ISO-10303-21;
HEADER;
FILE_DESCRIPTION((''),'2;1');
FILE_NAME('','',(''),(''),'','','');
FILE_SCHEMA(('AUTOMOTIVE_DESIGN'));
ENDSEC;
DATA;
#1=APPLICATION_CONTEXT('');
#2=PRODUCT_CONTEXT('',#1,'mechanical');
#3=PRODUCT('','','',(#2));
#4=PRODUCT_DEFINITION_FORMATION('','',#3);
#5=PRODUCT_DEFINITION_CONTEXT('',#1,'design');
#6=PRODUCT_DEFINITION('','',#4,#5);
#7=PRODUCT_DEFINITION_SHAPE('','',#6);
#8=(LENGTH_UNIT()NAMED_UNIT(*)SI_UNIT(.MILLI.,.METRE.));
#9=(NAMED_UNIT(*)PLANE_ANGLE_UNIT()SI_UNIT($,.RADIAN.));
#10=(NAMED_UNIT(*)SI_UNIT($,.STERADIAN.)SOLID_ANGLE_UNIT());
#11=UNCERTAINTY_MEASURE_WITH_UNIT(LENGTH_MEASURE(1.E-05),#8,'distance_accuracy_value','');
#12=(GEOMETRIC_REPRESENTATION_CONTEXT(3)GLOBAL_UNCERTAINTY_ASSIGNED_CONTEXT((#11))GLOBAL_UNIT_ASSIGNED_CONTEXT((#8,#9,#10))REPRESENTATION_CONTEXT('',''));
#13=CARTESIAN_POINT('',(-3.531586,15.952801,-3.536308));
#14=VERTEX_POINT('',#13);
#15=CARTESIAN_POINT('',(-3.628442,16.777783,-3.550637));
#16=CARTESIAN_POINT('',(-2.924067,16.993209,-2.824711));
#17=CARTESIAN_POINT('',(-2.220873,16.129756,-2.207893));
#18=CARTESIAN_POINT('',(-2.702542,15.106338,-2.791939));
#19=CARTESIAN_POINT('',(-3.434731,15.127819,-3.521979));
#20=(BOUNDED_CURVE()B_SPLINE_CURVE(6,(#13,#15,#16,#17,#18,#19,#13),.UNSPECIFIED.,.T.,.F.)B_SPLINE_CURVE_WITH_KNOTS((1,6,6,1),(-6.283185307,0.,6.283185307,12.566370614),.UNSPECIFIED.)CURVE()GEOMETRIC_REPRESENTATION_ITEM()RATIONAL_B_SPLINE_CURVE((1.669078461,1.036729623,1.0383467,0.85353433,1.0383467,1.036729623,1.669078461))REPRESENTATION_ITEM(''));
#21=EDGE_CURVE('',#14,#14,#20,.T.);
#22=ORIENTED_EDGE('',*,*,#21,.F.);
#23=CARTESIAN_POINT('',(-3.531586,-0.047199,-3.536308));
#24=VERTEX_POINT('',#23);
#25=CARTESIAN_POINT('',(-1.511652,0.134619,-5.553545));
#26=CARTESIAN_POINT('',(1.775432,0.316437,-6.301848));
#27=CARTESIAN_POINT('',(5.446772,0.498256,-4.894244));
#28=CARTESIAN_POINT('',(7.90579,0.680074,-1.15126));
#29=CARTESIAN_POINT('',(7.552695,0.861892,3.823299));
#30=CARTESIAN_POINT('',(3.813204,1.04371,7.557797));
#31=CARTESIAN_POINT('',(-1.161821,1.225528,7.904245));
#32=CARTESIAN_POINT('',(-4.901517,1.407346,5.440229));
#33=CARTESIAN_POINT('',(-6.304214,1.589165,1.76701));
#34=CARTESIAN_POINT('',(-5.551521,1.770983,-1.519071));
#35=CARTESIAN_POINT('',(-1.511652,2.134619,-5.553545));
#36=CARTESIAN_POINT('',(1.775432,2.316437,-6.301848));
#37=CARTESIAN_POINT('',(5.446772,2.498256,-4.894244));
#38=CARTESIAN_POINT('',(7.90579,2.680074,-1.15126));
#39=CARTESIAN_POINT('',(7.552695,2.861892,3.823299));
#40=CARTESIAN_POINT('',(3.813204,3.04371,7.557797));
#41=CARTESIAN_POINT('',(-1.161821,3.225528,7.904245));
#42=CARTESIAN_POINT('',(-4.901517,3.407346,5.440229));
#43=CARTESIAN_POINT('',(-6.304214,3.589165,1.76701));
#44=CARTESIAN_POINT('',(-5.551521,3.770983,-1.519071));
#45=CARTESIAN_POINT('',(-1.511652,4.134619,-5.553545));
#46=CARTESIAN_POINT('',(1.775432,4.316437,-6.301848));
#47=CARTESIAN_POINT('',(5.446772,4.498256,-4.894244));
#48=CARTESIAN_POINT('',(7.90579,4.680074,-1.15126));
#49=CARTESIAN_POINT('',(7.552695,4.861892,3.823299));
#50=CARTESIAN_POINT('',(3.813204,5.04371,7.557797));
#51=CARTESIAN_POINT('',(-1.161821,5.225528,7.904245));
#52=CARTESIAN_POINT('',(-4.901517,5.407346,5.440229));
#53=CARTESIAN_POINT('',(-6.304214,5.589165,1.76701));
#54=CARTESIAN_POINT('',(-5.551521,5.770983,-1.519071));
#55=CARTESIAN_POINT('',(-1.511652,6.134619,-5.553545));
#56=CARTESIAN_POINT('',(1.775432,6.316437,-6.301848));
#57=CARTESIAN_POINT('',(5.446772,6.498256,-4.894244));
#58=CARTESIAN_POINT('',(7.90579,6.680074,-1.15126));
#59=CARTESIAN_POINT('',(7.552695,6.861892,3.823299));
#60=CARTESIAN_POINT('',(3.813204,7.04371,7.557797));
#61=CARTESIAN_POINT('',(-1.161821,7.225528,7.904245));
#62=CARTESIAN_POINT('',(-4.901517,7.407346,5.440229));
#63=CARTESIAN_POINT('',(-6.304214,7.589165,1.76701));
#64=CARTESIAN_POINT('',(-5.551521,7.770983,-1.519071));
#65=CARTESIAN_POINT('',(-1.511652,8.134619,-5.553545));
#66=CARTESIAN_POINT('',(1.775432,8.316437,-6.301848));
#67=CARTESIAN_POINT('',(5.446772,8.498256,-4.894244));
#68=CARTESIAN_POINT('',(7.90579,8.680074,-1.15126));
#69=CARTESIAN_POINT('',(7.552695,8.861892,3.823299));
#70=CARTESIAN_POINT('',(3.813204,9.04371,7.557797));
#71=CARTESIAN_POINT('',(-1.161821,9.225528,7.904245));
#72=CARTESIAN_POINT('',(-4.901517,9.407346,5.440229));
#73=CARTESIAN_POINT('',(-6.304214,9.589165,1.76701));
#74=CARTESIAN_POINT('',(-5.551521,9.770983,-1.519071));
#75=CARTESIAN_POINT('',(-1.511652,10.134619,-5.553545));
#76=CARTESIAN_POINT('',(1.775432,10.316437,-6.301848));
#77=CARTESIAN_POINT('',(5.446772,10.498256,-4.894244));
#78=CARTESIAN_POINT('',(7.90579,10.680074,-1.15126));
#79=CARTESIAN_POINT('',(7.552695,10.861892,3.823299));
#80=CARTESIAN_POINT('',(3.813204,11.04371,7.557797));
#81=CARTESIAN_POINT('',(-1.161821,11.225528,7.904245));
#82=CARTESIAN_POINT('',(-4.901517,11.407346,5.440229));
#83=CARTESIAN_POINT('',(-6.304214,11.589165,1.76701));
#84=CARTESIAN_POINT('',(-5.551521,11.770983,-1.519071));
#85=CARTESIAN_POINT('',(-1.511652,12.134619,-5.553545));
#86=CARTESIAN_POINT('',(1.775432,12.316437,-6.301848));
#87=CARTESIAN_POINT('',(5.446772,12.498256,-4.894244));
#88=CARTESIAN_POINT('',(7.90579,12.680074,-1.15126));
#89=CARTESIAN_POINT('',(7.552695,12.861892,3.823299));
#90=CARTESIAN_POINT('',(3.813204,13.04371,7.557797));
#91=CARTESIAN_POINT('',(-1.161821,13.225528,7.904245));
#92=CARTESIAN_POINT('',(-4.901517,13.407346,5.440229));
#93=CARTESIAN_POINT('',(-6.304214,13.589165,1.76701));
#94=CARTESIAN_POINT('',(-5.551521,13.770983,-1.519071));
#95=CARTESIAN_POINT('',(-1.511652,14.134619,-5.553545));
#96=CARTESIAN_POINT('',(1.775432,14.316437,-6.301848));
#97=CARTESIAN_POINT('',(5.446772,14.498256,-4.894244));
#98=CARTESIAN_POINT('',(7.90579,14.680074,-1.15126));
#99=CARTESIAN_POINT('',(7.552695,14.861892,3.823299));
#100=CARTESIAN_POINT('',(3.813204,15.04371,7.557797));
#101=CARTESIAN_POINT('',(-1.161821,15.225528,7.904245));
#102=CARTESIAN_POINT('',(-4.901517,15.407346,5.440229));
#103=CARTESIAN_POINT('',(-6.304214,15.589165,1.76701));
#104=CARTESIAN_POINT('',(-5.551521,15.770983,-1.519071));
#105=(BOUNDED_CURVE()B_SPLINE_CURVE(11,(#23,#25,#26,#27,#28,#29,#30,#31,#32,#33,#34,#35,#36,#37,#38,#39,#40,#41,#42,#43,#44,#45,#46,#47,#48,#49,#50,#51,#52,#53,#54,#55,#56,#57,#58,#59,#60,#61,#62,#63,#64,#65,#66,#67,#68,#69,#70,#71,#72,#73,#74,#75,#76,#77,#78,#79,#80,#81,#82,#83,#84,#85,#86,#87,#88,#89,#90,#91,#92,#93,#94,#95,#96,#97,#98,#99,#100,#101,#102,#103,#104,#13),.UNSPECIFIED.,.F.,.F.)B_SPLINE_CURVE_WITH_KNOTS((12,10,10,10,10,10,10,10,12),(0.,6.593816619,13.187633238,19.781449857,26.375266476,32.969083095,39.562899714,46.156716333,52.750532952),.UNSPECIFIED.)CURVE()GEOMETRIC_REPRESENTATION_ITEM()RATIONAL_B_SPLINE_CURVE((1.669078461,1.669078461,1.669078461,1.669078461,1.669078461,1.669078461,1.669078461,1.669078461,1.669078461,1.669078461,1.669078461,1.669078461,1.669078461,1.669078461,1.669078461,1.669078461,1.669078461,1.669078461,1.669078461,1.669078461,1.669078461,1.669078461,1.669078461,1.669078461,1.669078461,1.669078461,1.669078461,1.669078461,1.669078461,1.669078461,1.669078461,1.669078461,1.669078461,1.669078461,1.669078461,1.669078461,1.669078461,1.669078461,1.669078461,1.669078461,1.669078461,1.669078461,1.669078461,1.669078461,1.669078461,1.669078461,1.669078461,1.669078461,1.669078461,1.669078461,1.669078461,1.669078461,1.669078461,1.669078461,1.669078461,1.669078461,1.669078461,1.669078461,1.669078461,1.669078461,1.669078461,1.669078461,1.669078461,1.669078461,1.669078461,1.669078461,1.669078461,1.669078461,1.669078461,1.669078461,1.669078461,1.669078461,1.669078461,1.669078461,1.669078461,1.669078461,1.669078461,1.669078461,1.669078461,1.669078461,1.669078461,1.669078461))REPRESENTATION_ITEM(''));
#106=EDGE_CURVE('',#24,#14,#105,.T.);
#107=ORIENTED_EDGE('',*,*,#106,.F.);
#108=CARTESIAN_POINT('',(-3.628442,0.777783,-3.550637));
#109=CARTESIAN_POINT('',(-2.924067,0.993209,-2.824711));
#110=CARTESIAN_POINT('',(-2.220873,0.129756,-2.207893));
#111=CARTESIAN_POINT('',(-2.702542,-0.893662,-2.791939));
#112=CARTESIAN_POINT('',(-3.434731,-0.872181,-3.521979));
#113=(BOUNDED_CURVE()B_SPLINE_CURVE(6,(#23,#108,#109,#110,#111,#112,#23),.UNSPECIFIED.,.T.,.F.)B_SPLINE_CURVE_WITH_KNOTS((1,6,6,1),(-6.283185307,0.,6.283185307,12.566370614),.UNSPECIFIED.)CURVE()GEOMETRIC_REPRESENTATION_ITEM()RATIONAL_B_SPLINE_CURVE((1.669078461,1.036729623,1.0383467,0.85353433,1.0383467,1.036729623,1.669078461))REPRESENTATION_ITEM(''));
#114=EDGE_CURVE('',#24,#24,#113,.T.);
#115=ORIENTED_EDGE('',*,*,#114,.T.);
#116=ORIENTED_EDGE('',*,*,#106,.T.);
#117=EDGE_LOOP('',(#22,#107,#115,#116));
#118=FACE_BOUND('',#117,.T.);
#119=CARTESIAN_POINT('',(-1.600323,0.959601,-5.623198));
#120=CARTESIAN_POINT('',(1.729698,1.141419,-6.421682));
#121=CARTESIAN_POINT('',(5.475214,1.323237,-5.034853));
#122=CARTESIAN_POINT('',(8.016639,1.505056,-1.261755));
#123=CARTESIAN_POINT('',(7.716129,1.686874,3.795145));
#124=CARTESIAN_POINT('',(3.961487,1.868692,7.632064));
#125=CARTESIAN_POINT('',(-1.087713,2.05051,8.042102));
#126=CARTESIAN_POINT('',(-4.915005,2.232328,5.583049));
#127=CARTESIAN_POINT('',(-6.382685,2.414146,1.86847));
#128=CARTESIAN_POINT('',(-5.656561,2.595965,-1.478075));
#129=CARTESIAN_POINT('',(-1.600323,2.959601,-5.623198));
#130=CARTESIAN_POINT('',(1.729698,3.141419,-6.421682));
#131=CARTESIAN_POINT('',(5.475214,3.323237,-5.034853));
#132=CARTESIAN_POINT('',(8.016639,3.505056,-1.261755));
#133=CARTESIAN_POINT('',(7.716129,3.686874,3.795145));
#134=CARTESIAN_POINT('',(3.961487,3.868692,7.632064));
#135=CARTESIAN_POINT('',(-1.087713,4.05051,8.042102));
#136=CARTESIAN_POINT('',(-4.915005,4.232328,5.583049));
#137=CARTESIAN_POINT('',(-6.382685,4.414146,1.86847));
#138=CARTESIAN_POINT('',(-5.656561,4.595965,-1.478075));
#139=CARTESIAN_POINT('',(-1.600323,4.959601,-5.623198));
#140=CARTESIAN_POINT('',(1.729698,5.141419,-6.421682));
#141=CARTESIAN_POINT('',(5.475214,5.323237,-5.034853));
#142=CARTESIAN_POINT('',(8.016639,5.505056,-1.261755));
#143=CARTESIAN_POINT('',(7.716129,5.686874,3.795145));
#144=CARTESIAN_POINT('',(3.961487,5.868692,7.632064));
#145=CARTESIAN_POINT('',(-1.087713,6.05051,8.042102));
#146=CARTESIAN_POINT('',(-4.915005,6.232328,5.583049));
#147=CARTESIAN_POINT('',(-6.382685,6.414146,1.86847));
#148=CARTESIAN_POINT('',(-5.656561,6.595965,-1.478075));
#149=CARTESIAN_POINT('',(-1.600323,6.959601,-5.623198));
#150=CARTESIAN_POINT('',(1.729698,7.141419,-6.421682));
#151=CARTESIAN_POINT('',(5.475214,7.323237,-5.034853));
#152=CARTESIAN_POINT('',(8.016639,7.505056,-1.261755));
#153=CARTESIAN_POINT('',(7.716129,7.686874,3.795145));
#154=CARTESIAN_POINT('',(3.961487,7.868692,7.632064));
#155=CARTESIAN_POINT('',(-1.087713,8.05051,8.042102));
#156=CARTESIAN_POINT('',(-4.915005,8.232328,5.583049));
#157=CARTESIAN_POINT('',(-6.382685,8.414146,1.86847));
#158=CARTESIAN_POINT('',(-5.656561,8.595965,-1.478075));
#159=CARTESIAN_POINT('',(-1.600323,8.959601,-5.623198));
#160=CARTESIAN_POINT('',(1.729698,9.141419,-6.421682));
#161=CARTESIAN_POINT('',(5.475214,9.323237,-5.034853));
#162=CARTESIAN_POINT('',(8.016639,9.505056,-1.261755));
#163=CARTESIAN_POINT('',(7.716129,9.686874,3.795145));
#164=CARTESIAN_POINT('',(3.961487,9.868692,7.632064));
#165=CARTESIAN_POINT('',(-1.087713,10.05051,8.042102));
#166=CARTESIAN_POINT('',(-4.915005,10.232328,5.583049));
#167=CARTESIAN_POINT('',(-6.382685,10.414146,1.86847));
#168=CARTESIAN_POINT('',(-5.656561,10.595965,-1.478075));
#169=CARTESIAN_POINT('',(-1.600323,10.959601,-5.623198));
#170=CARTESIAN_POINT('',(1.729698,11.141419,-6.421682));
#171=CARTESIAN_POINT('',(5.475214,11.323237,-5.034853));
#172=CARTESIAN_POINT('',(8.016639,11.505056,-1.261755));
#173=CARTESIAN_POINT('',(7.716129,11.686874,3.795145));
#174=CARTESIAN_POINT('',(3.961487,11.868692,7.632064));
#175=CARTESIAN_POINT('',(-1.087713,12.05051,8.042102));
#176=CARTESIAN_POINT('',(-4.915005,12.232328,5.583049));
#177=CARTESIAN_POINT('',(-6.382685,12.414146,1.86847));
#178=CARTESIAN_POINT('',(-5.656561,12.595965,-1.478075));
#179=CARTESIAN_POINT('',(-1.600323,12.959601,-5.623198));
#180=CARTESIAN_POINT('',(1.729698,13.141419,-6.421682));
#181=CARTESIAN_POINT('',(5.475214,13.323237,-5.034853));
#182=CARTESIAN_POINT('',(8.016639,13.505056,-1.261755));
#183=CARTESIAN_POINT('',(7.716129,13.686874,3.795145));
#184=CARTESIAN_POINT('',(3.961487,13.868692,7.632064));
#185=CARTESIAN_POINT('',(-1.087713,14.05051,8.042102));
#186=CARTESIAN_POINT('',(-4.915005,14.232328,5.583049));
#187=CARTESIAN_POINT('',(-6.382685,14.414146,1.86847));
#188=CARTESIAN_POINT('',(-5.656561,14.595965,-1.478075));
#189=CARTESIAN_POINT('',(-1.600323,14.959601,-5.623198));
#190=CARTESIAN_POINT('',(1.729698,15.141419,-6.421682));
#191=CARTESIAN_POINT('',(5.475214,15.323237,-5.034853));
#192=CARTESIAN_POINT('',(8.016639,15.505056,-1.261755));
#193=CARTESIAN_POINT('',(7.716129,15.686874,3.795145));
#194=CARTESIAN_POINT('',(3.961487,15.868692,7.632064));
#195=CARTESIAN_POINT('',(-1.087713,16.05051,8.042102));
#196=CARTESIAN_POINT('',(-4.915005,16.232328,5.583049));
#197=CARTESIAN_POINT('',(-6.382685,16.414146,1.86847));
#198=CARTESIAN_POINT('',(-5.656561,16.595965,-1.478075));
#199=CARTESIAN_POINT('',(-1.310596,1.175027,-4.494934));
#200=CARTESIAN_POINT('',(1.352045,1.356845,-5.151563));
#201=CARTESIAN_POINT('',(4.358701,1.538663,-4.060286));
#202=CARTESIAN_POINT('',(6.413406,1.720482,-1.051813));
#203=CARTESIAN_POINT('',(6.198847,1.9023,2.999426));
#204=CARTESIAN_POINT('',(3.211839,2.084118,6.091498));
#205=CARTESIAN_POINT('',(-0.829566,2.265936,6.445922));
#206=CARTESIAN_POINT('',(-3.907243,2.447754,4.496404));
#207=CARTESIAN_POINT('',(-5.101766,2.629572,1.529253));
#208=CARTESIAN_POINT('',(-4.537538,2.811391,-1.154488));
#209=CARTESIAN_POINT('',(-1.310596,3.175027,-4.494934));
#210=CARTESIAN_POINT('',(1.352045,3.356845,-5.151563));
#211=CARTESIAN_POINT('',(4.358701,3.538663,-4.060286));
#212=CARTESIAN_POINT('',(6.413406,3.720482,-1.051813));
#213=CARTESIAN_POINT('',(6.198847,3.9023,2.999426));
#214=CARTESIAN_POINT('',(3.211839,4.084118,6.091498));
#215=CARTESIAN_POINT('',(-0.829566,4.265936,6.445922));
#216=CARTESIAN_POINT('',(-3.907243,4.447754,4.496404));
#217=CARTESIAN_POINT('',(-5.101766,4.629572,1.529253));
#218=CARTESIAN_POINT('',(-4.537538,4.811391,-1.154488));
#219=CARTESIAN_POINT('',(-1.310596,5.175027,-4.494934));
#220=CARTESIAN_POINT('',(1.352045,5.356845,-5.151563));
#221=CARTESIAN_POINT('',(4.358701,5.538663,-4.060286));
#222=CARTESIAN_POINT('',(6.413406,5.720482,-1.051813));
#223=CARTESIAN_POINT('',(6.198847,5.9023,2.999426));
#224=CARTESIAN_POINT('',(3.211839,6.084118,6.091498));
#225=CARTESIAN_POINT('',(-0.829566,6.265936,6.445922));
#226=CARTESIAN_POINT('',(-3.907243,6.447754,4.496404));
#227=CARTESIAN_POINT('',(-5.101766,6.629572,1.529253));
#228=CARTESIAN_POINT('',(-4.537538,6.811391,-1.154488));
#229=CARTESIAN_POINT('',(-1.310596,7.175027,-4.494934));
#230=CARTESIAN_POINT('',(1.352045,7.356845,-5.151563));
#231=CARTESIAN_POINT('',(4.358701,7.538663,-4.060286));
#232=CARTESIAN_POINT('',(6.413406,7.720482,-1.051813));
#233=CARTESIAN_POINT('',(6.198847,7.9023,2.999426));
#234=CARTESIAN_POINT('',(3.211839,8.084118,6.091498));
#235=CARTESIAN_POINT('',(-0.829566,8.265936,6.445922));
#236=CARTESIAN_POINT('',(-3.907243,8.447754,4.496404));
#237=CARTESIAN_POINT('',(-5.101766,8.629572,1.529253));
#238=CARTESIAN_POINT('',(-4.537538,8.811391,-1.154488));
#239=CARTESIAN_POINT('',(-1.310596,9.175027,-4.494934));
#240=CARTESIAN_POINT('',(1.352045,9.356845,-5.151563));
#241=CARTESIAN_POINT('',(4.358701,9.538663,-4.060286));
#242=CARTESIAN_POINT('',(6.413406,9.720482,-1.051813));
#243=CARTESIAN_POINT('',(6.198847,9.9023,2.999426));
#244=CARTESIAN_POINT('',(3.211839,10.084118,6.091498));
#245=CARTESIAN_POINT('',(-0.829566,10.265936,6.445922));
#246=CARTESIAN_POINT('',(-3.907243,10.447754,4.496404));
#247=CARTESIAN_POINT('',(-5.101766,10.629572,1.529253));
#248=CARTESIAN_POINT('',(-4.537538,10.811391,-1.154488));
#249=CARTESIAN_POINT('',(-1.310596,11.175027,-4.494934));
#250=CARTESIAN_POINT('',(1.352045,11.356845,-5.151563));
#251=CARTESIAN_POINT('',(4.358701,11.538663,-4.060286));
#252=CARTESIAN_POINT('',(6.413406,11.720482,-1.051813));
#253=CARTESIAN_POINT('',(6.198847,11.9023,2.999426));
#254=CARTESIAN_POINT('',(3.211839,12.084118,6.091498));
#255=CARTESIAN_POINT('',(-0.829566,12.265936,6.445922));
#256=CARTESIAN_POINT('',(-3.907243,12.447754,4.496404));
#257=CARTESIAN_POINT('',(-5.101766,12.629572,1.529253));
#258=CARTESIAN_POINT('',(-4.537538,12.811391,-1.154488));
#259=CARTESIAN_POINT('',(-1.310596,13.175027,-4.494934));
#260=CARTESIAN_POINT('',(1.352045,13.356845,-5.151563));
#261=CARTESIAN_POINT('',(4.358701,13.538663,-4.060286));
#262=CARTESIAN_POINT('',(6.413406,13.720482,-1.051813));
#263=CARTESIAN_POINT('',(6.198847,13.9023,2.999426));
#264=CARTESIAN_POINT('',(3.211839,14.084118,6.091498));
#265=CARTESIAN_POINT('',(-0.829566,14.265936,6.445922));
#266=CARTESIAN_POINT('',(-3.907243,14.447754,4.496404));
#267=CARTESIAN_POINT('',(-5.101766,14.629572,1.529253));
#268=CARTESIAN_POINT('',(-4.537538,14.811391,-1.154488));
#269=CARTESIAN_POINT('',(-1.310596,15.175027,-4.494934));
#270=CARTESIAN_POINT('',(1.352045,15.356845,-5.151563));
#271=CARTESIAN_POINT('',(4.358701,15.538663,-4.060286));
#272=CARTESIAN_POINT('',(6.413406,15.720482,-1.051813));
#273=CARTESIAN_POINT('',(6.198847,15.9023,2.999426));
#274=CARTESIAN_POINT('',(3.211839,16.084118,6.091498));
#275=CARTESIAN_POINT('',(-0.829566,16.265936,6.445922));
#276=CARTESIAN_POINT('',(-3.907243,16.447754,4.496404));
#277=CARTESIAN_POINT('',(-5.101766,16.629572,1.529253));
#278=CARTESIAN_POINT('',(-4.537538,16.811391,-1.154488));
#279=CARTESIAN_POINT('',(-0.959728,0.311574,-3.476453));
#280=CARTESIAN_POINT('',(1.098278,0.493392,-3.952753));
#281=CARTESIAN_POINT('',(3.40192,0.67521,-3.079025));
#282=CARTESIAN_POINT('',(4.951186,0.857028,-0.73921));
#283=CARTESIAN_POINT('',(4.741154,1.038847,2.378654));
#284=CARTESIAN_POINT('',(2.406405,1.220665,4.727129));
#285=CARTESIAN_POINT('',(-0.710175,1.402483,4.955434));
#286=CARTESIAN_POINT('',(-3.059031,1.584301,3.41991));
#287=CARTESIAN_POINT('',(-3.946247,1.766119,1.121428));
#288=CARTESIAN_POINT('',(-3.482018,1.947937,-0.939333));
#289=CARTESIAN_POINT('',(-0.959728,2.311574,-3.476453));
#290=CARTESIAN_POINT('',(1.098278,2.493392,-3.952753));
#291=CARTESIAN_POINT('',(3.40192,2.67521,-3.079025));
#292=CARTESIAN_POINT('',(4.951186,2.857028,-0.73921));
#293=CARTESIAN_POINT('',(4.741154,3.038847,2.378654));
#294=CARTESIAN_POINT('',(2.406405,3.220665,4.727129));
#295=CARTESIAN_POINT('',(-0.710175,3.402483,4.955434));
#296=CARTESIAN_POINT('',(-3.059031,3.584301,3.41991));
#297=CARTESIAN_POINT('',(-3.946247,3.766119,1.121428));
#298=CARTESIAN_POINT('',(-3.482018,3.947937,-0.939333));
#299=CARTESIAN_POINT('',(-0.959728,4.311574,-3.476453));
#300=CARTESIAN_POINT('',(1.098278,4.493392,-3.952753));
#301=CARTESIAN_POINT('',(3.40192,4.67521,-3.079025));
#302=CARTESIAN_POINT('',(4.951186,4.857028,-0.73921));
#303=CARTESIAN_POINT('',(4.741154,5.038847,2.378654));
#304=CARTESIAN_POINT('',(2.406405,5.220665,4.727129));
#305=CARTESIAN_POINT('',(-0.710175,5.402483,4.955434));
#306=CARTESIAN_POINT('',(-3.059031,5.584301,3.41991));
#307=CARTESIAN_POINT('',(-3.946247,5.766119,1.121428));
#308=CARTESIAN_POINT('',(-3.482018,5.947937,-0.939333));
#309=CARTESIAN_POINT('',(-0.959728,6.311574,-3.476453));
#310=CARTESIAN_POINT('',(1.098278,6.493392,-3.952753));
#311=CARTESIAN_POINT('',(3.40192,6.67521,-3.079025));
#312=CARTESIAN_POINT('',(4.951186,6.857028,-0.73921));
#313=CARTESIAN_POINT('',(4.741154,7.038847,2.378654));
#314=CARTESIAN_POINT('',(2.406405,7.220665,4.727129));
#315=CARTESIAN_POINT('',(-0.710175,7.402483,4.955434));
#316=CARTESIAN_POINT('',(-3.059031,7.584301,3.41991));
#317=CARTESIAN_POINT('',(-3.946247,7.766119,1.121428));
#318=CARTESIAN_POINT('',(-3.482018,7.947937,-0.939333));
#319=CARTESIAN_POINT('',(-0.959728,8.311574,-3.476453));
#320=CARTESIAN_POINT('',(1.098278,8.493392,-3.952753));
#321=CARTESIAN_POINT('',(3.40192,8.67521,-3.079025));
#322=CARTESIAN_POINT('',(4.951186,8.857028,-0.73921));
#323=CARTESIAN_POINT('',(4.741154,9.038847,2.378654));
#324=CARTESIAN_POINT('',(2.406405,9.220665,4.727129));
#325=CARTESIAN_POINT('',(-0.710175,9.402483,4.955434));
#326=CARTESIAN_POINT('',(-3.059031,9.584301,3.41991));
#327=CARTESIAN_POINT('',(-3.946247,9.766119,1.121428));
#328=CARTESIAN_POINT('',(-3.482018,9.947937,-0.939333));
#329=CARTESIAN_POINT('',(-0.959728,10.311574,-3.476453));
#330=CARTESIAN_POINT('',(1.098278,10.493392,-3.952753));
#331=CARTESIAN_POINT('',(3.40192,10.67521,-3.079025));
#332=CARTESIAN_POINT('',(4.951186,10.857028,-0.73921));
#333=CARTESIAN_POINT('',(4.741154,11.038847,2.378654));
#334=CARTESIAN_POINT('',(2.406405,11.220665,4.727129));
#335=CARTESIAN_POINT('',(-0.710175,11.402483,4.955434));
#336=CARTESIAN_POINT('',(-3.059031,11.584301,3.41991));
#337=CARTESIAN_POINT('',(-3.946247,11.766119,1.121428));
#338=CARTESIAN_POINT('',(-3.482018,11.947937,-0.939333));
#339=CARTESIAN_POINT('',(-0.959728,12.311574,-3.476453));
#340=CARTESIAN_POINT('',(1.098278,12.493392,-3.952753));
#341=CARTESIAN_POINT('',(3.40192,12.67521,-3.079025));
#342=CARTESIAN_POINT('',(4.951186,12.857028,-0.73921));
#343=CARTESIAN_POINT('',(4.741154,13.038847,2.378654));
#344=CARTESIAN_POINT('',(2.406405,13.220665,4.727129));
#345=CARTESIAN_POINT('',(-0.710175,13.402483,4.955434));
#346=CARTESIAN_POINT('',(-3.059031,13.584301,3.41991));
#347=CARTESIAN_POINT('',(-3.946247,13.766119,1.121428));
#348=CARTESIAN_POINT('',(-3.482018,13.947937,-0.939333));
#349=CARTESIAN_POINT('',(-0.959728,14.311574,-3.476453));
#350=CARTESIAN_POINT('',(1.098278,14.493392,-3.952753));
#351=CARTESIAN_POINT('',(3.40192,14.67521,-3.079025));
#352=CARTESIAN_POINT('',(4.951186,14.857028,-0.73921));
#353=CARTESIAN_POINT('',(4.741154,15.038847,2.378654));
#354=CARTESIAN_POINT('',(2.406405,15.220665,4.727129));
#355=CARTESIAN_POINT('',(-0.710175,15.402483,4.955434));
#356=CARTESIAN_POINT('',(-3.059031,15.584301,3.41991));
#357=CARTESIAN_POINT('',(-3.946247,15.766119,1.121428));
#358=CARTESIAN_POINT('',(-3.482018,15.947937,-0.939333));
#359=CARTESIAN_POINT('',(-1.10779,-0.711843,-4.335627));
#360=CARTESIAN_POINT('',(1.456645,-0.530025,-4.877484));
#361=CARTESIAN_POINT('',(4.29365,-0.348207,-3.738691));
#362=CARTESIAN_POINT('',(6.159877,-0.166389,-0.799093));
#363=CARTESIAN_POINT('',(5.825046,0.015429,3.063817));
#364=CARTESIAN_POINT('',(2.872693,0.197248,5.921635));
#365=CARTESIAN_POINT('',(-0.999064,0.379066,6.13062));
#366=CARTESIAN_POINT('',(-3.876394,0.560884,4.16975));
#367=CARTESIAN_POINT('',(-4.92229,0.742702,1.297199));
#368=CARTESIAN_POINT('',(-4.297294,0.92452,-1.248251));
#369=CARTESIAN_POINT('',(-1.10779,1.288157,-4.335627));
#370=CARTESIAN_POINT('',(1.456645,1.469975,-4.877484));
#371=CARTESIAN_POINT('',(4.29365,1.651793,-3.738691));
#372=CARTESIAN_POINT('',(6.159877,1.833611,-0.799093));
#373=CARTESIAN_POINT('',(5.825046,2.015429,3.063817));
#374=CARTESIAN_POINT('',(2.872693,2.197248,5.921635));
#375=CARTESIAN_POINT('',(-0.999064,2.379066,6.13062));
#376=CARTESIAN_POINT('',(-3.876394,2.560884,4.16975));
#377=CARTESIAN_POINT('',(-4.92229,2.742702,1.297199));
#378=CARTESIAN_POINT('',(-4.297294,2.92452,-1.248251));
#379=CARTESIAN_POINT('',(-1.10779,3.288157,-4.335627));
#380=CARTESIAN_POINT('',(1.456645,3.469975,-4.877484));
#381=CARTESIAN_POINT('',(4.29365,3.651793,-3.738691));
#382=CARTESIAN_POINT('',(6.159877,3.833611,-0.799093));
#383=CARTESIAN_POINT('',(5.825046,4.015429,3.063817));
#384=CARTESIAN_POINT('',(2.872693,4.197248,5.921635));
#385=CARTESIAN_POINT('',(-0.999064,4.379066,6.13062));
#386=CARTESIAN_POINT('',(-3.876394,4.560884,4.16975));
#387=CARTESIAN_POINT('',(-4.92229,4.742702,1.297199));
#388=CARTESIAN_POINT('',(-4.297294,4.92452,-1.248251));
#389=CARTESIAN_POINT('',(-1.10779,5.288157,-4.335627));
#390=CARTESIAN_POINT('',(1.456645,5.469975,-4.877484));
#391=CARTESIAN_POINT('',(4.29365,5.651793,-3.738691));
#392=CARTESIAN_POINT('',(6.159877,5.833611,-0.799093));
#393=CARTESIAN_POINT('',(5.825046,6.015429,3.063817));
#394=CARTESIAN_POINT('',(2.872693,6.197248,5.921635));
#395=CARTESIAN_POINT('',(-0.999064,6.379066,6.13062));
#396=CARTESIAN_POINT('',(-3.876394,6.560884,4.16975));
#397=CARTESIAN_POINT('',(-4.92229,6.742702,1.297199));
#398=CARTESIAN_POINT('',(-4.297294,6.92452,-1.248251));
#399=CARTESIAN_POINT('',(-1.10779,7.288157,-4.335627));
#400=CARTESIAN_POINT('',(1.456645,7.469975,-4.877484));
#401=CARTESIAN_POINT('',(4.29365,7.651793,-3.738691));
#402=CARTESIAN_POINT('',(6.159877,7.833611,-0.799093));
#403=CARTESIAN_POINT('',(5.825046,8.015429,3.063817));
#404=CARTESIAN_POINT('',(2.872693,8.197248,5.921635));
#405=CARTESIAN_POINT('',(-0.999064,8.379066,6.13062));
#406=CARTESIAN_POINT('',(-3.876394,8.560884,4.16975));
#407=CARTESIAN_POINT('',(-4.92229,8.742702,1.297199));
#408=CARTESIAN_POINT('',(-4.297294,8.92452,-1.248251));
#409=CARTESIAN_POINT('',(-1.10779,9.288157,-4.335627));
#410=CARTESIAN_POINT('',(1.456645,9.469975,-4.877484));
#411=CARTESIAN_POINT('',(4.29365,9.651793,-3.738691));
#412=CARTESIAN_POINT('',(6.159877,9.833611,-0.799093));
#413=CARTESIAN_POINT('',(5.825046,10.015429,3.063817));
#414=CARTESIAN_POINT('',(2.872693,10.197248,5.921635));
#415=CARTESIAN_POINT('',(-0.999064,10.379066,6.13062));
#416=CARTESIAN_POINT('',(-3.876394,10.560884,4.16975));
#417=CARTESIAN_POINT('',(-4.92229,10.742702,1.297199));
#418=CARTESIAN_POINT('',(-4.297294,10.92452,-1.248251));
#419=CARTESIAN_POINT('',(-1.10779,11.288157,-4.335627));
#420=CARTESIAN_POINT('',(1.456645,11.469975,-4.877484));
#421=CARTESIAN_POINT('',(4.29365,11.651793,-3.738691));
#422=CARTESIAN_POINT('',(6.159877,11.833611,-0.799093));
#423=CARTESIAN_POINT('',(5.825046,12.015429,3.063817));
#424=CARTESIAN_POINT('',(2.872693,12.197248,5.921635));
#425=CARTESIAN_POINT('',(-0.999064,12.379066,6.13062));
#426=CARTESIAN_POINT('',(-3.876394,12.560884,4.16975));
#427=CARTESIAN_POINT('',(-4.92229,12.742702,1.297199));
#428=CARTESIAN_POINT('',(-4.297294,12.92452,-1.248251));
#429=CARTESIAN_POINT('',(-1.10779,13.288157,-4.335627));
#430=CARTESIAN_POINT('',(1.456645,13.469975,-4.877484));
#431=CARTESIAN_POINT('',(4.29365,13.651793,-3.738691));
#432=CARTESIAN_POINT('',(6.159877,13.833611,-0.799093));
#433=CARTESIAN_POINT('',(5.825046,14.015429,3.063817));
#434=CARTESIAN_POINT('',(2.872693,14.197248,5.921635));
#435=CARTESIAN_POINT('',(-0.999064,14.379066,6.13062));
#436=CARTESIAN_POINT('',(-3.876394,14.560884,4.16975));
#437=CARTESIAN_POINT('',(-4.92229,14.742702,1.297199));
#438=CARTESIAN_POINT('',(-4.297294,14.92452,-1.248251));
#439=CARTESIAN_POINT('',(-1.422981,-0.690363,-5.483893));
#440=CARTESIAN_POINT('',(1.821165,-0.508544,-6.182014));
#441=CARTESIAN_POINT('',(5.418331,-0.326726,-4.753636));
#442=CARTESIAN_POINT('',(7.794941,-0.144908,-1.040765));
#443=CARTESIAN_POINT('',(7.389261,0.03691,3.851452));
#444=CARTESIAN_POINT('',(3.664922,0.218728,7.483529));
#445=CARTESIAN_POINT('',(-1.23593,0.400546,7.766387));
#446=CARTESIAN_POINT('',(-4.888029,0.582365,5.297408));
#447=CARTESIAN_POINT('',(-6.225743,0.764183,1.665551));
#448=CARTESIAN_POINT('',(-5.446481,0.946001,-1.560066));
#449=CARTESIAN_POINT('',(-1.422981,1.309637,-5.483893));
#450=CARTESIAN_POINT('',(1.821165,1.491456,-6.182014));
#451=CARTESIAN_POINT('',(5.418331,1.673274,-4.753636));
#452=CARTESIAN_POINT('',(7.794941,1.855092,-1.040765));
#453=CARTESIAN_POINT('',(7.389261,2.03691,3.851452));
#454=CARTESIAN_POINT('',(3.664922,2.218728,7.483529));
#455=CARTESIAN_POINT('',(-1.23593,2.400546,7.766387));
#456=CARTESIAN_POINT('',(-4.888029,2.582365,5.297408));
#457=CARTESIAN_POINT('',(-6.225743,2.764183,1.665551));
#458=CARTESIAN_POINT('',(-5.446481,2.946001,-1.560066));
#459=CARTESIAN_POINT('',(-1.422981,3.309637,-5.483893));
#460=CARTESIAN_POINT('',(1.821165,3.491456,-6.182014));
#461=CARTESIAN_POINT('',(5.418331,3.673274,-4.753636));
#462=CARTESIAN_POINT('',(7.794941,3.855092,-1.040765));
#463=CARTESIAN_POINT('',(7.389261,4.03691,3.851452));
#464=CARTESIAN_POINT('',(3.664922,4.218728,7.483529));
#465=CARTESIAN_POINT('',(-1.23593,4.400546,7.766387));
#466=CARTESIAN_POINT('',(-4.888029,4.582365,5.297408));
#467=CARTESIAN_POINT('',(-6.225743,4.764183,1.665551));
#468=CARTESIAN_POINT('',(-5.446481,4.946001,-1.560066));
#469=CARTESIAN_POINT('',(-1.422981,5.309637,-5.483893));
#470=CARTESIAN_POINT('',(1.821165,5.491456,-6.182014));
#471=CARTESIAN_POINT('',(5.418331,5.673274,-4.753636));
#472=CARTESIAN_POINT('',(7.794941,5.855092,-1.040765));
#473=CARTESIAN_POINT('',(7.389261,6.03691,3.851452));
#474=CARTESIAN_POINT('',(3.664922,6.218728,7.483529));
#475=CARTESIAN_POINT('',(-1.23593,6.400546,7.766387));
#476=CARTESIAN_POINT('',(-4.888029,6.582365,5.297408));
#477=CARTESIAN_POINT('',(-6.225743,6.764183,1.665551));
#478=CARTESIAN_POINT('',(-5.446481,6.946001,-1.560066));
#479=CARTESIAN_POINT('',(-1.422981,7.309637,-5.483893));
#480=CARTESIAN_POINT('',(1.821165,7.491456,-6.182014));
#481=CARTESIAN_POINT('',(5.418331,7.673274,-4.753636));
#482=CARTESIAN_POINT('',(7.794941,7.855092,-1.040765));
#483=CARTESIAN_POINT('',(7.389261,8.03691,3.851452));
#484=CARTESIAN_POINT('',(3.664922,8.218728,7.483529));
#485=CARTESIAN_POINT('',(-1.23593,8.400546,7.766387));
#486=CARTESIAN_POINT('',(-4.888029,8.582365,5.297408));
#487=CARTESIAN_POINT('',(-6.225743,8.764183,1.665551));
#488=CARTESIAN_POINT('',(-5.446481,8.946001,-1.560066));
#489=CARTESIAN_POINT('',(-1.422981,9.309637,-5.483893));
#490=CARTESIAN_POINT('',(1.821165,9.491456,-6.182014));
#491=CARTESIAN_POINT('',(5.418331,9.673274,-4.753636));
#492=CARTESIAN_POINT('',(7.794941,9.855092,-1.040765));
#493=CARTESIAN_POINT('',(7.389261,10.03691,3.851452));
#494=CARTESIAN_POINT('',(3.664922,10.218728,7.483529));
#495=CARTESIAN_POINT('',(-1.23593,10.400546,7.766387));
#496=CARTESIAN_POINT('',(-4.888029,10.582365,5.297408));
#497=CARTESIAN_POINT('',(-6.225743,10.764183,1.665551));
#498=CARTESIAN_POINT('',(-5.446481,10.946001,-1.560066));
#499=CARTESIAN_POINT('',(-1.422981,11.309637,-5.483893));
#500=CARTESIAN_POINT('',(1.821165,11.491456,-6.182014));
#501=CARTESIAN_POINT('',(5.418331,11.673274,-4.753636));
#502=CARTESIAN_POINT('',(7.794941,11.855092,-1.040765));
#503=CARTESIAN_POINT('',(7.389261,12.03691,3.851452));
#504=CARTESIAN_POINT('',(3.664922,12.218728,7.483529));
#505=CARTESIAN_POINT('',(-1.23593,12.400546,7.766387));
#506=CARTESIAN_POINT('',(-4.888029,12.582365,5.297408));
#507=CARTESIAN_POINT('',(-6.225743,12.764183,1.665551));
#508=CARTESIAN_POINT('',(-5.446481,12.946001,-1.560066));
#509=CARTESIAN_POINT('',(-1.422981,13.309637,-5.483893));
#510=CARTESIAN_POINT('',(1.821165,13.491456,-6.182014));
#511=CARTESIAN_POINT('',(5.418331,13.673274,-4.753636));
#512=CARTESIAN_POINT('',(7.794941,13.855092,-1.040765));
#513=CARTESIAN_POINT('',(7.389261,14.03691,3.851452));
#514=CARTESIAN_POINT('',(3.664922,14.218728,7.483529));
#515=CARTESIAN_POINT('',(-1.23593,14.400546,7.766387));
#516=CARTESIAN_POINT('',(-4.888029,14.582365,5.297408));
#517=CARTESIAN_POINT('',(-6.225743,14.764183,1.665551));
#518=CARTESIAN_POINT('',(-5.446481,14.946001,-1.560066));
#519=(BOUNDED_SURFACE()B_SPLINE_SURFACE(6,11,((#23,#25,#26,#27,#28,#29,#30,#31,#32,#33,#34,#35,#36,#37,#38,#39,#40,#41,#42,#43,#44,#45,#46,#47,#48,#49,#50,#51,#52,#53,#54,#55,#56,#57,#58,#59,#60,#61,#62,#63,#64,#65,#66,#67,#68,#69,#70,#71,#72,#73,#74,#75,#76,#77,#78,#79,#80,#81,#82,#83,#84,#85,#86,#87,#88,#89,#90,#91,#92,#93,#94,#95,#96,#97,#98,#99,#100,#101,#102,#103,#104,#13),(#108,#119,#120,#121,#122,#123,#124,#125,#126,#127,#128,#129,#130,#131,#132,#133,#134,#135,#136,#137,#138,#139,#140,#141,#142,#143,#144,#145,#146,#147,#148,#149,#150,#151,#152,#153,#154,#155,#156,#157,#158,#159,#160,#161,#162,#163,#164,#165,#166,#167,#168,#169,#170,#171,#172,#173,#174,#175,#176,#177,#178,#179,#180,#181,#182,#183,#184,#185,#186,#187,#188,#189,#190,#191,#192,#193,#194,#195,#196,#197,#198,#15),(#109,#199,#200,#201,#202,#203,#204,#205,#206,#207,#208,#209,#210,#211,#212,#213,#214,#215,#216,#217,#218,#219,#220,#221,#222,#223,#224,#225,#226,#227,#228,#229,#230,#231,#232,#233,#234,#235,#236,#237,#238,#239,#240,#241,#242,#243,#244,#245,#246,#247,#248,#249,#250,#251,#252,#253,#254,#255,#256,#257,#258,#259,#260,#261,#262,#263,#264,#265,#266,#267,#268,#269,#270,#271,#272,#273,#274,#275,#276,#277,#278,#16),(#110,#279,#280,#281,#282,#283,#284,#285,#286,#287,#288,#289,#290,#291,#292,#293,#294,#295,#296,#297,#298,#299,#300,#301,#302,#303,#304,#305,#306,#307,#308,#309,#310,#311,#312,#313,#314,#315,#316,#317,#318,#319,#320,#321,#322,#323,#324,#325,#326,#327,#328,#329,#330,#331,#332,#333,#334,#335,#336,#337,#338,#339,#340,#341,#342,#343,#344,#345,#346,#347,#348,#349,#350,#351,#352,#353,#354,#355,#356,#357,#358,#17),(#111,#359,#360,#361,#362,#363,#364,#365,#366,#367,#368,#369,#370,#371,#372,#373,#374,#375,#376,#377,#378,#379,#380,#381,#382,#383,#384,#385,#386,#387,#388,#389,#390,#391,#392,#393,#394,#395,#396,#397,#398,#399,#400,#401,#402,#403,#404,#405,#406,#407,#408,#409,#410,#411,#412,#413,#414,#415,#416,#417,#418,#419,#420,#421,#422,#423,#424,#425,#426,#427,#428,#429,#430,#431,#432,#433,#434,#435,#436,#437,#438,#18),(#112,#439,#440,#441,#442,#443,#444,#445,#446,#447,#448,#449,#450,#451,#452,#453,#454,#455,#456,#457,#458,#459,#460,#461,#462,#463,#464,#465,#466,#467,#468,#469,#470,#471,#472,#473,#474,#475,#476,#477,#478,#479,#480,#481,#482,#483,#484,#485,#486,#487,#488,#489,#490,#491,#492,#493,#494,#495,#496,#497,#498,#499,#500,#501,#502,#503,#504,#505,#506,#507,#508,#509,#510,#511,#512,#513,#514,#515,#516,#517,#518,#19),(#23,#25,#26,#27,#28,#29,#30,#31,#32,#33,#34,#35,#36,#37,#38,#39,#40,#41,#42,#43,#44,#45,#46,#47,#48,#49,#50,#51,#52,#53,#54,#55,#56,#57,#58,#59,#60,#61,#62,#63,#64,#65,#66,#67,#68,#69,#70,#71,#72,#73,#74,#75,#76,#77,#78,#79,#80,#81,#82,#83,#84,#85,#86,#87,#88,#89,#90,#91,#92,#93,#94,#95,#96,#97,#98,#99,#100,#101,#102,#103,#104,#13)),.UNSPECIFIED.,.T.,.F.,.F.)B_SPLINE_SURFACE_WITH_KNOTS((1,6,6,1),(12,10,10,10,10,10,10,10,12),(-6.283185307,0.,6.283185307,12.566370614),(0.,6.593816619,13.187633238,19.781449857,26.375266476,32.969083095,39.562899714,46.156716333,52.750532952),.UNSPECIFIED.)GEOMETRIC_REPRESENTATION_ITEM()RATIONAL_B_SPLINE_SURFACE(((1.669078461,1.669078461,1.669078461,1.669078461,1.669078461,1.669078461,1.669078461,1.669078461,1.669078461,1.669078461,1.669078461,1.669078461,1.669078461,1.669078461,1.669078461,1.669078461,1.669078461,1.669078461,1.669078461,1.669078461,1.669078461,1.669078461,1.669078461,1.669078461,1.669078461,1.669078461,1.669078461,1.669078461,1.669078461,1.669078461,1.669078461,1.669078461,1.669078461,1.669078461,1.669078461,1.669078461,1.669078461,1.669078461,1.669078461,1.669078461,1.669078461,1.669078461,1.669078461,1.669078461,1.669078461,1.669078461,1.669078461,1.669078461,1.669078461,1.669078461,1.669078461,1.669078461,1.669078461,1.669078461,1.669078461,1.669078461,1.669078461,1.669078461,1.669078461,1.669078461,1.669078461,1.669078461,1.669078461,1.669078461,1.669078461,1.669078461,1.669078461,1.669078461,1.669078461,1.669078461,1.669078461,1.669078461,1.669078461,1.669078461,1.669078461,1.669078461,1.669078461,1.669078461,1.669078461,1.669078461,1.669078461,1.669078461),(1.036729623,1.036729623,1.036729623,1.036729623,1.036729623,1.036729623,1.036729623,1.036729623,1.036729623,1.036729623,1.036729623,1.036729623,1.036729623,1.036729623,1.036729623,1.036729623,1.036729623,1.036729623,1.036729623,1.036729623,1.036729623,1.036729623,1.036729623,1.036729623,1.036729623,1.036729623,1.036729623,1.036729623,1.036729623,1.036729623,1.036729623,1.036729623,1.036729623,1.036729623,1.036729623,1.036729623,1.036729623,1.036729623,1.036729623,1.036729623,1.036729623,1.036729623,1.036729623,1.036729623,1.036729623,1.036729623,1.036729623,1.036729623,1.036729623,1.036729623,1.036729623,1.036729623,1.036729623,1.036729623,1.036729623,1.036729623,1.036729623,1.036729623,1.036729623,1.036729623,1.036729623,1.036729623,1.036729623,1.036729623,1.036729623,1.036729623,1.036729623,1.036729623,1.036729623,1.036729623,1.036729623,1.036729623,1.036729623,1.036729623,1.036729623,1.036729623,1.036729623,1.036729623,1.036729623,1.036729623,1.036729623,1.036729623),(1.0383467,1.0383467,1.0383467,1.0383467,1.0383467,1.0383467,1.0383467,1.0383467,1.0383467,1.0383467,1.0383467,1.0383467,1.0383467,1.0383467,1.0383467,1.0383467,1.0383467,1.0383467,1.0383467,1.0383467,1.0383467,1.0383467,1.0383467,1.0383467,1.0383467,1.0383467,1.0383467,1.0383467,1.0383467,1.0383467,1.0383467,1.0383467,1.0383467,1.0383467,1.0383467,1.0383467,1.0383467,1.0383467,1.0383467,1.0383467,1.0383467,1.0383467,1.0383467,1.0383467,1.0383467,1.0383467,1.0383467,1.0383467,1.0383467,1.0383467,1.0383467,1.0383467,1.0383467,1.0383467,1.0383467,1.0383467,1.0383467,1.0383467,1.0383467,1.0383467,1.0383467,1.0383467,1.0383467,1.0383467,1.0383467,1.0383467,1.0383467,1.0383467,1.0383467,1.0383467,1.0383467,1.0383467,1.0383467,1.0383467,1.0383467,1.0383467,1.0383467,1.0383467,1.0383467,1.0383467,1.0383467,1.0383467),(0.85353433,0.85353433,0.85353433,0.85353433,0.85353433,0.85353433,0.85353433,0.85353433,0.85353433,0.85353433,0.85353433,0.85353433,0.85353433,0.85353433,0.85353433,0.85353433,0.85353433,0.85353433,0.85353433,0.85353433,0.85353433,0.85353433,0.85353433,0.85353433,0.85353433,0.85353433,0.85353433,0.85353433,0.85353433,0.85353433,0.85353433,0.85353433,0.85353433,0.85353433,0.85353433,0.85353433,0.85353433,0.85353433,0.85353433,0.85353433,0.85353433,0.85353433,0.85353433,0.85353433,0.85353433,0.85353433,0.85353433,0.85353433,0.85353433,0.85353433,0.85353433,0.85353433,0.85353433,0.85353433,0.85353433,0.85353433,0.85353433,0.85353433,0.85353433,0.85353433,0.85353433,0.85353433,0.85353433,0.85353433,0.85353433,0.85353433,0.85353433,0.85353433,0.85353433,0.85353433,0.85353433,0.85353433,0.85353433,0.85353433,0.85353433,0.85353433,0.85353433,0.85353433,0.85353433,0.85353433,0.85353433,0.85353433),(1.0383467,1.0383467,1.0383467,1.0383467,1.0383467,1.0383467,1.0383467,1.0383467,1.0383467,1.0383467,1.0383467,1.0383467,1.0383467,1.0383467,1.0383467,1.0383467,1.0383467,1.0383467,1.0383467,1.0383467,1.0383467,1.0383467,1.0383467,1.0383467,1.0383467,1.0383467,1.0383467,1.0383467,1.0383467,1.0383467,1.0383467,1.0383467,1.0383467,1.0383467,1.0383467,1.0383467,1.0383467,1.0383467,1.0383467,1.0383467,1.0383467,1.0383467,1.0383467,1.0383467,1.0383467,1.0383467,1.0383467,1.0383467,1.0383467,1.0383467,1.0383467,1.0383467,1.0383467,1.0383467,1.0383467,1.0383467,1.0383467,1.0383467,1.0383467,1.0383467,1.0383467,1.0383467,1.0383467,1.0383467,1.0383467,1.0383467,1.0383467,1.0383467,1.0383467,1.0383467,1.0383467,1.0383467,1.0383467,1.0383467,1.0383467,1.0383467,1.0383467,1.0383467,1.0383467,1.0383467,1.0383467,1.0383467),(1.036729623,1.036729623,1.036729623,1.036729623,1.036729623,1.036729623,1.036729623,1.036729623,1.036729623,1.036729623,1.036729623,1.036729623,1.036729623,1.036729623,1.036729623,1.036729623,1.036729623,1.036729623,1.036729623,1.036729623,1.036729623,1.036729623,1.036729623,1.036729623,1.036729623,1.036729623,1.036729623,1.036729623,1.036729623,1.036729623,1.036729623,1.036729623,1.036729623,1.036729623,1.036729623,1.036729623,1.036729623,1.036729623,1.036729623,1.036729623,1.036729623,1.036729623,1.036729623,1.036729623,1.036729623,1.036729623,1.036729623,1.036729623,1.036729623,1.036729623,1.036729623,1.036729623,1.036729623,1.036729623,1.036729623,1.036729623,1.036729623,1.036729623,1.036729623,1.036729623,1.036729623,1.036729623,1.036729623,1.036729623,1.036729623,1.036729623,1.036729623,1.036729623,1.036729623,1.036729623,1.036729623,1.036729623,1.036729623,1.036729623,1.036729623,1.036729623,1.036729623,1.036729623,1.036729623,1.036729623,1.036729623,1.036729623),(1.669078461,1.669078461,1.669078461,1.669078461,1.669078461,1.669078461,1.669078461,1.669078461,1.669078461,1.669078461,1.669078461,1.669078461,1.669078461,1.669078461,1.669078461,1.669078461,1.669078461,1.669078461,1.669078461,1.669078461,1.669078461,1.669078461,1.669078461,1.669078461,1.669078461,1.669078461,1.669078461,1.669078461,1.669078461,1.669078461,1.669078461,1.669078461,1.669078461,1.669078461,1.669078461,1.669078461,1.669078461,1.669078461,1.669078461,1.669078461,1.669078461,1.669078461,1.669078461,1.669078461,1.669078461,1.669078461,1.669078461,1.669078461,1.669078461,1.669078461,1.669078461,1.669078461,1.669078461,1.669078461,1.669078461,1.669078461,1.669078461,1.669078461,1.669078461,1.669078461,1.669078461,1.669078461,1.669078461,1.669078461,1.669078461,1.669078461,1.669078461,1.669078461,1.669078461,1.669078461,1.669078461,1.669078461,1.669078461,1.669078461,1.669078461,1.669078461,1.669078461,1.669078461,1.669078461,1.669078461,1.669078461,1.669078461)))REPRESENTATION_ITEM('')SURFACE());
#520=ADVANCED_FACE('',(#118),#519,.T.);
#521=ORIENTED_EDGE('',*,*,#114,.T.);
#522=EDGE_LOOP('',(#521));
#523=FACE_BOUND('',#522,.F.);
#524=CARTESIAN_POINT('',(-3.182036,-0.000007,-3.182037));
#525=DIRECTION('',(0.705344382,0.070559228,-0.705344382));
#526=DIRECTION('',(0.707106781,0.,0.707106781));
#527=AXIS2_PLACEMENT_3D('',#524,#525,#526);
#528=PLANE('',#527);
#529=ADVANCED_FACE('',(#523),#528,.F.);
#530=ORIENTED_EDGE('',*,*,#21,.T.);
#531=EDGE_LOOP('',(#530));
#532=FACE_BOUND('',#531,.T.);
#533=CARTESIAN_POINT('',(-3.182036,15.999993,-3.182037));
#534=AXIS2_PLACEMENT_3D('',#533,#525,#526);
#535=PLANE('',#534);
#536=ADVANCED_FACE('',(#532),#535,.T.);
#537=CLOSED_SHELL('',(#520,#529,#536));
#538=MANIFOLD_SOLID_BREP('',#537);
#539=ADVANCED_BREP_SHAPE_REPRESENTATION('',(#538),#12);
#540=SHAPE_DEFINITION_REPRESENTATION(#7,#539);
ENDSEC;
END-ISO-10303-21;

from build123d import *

# Parameters (mm, degrees)
SWEEP1_PITCH       = 2
SWEEP1_HEIGHT      = 16
SWEEP1_RADIUS      = 4.5
SWEEP1_START_ANGLE = -135
SKETCH2_R          = 0.5


with BuildPart() as part:
    # Sweep1: sweep along a helix
    with BuildLine() as sweep1_path:
        add(Helix(SWEEP1_PITCH, SWEEP1_HEIGHT, SWEEP1_RADIUS, center=(0, 0, 0), direction=(0, 1, 0), lefthand=True, mode=Mode.PRIVATE).rotate(Axis((0, 0, 0), (0, 1, 0)), SWEEP1_START_ANGLE))
    # Sketch2 → Sweep1 (sweep)
    with BuildSketch(Plane(origin=(-3.181980515, 16, -3.181980515), x_dir=(-0.6992118249981628, -0.09439804089448552, -0.7086549468239263), z_dir=(0.7053443822995938, 0.07055922843266667, -0.705344382299449))):
        Circle(SKETCH2_R)
    sweep(path=sweep1_path.line, is_frenet=True)


solid = part.part
